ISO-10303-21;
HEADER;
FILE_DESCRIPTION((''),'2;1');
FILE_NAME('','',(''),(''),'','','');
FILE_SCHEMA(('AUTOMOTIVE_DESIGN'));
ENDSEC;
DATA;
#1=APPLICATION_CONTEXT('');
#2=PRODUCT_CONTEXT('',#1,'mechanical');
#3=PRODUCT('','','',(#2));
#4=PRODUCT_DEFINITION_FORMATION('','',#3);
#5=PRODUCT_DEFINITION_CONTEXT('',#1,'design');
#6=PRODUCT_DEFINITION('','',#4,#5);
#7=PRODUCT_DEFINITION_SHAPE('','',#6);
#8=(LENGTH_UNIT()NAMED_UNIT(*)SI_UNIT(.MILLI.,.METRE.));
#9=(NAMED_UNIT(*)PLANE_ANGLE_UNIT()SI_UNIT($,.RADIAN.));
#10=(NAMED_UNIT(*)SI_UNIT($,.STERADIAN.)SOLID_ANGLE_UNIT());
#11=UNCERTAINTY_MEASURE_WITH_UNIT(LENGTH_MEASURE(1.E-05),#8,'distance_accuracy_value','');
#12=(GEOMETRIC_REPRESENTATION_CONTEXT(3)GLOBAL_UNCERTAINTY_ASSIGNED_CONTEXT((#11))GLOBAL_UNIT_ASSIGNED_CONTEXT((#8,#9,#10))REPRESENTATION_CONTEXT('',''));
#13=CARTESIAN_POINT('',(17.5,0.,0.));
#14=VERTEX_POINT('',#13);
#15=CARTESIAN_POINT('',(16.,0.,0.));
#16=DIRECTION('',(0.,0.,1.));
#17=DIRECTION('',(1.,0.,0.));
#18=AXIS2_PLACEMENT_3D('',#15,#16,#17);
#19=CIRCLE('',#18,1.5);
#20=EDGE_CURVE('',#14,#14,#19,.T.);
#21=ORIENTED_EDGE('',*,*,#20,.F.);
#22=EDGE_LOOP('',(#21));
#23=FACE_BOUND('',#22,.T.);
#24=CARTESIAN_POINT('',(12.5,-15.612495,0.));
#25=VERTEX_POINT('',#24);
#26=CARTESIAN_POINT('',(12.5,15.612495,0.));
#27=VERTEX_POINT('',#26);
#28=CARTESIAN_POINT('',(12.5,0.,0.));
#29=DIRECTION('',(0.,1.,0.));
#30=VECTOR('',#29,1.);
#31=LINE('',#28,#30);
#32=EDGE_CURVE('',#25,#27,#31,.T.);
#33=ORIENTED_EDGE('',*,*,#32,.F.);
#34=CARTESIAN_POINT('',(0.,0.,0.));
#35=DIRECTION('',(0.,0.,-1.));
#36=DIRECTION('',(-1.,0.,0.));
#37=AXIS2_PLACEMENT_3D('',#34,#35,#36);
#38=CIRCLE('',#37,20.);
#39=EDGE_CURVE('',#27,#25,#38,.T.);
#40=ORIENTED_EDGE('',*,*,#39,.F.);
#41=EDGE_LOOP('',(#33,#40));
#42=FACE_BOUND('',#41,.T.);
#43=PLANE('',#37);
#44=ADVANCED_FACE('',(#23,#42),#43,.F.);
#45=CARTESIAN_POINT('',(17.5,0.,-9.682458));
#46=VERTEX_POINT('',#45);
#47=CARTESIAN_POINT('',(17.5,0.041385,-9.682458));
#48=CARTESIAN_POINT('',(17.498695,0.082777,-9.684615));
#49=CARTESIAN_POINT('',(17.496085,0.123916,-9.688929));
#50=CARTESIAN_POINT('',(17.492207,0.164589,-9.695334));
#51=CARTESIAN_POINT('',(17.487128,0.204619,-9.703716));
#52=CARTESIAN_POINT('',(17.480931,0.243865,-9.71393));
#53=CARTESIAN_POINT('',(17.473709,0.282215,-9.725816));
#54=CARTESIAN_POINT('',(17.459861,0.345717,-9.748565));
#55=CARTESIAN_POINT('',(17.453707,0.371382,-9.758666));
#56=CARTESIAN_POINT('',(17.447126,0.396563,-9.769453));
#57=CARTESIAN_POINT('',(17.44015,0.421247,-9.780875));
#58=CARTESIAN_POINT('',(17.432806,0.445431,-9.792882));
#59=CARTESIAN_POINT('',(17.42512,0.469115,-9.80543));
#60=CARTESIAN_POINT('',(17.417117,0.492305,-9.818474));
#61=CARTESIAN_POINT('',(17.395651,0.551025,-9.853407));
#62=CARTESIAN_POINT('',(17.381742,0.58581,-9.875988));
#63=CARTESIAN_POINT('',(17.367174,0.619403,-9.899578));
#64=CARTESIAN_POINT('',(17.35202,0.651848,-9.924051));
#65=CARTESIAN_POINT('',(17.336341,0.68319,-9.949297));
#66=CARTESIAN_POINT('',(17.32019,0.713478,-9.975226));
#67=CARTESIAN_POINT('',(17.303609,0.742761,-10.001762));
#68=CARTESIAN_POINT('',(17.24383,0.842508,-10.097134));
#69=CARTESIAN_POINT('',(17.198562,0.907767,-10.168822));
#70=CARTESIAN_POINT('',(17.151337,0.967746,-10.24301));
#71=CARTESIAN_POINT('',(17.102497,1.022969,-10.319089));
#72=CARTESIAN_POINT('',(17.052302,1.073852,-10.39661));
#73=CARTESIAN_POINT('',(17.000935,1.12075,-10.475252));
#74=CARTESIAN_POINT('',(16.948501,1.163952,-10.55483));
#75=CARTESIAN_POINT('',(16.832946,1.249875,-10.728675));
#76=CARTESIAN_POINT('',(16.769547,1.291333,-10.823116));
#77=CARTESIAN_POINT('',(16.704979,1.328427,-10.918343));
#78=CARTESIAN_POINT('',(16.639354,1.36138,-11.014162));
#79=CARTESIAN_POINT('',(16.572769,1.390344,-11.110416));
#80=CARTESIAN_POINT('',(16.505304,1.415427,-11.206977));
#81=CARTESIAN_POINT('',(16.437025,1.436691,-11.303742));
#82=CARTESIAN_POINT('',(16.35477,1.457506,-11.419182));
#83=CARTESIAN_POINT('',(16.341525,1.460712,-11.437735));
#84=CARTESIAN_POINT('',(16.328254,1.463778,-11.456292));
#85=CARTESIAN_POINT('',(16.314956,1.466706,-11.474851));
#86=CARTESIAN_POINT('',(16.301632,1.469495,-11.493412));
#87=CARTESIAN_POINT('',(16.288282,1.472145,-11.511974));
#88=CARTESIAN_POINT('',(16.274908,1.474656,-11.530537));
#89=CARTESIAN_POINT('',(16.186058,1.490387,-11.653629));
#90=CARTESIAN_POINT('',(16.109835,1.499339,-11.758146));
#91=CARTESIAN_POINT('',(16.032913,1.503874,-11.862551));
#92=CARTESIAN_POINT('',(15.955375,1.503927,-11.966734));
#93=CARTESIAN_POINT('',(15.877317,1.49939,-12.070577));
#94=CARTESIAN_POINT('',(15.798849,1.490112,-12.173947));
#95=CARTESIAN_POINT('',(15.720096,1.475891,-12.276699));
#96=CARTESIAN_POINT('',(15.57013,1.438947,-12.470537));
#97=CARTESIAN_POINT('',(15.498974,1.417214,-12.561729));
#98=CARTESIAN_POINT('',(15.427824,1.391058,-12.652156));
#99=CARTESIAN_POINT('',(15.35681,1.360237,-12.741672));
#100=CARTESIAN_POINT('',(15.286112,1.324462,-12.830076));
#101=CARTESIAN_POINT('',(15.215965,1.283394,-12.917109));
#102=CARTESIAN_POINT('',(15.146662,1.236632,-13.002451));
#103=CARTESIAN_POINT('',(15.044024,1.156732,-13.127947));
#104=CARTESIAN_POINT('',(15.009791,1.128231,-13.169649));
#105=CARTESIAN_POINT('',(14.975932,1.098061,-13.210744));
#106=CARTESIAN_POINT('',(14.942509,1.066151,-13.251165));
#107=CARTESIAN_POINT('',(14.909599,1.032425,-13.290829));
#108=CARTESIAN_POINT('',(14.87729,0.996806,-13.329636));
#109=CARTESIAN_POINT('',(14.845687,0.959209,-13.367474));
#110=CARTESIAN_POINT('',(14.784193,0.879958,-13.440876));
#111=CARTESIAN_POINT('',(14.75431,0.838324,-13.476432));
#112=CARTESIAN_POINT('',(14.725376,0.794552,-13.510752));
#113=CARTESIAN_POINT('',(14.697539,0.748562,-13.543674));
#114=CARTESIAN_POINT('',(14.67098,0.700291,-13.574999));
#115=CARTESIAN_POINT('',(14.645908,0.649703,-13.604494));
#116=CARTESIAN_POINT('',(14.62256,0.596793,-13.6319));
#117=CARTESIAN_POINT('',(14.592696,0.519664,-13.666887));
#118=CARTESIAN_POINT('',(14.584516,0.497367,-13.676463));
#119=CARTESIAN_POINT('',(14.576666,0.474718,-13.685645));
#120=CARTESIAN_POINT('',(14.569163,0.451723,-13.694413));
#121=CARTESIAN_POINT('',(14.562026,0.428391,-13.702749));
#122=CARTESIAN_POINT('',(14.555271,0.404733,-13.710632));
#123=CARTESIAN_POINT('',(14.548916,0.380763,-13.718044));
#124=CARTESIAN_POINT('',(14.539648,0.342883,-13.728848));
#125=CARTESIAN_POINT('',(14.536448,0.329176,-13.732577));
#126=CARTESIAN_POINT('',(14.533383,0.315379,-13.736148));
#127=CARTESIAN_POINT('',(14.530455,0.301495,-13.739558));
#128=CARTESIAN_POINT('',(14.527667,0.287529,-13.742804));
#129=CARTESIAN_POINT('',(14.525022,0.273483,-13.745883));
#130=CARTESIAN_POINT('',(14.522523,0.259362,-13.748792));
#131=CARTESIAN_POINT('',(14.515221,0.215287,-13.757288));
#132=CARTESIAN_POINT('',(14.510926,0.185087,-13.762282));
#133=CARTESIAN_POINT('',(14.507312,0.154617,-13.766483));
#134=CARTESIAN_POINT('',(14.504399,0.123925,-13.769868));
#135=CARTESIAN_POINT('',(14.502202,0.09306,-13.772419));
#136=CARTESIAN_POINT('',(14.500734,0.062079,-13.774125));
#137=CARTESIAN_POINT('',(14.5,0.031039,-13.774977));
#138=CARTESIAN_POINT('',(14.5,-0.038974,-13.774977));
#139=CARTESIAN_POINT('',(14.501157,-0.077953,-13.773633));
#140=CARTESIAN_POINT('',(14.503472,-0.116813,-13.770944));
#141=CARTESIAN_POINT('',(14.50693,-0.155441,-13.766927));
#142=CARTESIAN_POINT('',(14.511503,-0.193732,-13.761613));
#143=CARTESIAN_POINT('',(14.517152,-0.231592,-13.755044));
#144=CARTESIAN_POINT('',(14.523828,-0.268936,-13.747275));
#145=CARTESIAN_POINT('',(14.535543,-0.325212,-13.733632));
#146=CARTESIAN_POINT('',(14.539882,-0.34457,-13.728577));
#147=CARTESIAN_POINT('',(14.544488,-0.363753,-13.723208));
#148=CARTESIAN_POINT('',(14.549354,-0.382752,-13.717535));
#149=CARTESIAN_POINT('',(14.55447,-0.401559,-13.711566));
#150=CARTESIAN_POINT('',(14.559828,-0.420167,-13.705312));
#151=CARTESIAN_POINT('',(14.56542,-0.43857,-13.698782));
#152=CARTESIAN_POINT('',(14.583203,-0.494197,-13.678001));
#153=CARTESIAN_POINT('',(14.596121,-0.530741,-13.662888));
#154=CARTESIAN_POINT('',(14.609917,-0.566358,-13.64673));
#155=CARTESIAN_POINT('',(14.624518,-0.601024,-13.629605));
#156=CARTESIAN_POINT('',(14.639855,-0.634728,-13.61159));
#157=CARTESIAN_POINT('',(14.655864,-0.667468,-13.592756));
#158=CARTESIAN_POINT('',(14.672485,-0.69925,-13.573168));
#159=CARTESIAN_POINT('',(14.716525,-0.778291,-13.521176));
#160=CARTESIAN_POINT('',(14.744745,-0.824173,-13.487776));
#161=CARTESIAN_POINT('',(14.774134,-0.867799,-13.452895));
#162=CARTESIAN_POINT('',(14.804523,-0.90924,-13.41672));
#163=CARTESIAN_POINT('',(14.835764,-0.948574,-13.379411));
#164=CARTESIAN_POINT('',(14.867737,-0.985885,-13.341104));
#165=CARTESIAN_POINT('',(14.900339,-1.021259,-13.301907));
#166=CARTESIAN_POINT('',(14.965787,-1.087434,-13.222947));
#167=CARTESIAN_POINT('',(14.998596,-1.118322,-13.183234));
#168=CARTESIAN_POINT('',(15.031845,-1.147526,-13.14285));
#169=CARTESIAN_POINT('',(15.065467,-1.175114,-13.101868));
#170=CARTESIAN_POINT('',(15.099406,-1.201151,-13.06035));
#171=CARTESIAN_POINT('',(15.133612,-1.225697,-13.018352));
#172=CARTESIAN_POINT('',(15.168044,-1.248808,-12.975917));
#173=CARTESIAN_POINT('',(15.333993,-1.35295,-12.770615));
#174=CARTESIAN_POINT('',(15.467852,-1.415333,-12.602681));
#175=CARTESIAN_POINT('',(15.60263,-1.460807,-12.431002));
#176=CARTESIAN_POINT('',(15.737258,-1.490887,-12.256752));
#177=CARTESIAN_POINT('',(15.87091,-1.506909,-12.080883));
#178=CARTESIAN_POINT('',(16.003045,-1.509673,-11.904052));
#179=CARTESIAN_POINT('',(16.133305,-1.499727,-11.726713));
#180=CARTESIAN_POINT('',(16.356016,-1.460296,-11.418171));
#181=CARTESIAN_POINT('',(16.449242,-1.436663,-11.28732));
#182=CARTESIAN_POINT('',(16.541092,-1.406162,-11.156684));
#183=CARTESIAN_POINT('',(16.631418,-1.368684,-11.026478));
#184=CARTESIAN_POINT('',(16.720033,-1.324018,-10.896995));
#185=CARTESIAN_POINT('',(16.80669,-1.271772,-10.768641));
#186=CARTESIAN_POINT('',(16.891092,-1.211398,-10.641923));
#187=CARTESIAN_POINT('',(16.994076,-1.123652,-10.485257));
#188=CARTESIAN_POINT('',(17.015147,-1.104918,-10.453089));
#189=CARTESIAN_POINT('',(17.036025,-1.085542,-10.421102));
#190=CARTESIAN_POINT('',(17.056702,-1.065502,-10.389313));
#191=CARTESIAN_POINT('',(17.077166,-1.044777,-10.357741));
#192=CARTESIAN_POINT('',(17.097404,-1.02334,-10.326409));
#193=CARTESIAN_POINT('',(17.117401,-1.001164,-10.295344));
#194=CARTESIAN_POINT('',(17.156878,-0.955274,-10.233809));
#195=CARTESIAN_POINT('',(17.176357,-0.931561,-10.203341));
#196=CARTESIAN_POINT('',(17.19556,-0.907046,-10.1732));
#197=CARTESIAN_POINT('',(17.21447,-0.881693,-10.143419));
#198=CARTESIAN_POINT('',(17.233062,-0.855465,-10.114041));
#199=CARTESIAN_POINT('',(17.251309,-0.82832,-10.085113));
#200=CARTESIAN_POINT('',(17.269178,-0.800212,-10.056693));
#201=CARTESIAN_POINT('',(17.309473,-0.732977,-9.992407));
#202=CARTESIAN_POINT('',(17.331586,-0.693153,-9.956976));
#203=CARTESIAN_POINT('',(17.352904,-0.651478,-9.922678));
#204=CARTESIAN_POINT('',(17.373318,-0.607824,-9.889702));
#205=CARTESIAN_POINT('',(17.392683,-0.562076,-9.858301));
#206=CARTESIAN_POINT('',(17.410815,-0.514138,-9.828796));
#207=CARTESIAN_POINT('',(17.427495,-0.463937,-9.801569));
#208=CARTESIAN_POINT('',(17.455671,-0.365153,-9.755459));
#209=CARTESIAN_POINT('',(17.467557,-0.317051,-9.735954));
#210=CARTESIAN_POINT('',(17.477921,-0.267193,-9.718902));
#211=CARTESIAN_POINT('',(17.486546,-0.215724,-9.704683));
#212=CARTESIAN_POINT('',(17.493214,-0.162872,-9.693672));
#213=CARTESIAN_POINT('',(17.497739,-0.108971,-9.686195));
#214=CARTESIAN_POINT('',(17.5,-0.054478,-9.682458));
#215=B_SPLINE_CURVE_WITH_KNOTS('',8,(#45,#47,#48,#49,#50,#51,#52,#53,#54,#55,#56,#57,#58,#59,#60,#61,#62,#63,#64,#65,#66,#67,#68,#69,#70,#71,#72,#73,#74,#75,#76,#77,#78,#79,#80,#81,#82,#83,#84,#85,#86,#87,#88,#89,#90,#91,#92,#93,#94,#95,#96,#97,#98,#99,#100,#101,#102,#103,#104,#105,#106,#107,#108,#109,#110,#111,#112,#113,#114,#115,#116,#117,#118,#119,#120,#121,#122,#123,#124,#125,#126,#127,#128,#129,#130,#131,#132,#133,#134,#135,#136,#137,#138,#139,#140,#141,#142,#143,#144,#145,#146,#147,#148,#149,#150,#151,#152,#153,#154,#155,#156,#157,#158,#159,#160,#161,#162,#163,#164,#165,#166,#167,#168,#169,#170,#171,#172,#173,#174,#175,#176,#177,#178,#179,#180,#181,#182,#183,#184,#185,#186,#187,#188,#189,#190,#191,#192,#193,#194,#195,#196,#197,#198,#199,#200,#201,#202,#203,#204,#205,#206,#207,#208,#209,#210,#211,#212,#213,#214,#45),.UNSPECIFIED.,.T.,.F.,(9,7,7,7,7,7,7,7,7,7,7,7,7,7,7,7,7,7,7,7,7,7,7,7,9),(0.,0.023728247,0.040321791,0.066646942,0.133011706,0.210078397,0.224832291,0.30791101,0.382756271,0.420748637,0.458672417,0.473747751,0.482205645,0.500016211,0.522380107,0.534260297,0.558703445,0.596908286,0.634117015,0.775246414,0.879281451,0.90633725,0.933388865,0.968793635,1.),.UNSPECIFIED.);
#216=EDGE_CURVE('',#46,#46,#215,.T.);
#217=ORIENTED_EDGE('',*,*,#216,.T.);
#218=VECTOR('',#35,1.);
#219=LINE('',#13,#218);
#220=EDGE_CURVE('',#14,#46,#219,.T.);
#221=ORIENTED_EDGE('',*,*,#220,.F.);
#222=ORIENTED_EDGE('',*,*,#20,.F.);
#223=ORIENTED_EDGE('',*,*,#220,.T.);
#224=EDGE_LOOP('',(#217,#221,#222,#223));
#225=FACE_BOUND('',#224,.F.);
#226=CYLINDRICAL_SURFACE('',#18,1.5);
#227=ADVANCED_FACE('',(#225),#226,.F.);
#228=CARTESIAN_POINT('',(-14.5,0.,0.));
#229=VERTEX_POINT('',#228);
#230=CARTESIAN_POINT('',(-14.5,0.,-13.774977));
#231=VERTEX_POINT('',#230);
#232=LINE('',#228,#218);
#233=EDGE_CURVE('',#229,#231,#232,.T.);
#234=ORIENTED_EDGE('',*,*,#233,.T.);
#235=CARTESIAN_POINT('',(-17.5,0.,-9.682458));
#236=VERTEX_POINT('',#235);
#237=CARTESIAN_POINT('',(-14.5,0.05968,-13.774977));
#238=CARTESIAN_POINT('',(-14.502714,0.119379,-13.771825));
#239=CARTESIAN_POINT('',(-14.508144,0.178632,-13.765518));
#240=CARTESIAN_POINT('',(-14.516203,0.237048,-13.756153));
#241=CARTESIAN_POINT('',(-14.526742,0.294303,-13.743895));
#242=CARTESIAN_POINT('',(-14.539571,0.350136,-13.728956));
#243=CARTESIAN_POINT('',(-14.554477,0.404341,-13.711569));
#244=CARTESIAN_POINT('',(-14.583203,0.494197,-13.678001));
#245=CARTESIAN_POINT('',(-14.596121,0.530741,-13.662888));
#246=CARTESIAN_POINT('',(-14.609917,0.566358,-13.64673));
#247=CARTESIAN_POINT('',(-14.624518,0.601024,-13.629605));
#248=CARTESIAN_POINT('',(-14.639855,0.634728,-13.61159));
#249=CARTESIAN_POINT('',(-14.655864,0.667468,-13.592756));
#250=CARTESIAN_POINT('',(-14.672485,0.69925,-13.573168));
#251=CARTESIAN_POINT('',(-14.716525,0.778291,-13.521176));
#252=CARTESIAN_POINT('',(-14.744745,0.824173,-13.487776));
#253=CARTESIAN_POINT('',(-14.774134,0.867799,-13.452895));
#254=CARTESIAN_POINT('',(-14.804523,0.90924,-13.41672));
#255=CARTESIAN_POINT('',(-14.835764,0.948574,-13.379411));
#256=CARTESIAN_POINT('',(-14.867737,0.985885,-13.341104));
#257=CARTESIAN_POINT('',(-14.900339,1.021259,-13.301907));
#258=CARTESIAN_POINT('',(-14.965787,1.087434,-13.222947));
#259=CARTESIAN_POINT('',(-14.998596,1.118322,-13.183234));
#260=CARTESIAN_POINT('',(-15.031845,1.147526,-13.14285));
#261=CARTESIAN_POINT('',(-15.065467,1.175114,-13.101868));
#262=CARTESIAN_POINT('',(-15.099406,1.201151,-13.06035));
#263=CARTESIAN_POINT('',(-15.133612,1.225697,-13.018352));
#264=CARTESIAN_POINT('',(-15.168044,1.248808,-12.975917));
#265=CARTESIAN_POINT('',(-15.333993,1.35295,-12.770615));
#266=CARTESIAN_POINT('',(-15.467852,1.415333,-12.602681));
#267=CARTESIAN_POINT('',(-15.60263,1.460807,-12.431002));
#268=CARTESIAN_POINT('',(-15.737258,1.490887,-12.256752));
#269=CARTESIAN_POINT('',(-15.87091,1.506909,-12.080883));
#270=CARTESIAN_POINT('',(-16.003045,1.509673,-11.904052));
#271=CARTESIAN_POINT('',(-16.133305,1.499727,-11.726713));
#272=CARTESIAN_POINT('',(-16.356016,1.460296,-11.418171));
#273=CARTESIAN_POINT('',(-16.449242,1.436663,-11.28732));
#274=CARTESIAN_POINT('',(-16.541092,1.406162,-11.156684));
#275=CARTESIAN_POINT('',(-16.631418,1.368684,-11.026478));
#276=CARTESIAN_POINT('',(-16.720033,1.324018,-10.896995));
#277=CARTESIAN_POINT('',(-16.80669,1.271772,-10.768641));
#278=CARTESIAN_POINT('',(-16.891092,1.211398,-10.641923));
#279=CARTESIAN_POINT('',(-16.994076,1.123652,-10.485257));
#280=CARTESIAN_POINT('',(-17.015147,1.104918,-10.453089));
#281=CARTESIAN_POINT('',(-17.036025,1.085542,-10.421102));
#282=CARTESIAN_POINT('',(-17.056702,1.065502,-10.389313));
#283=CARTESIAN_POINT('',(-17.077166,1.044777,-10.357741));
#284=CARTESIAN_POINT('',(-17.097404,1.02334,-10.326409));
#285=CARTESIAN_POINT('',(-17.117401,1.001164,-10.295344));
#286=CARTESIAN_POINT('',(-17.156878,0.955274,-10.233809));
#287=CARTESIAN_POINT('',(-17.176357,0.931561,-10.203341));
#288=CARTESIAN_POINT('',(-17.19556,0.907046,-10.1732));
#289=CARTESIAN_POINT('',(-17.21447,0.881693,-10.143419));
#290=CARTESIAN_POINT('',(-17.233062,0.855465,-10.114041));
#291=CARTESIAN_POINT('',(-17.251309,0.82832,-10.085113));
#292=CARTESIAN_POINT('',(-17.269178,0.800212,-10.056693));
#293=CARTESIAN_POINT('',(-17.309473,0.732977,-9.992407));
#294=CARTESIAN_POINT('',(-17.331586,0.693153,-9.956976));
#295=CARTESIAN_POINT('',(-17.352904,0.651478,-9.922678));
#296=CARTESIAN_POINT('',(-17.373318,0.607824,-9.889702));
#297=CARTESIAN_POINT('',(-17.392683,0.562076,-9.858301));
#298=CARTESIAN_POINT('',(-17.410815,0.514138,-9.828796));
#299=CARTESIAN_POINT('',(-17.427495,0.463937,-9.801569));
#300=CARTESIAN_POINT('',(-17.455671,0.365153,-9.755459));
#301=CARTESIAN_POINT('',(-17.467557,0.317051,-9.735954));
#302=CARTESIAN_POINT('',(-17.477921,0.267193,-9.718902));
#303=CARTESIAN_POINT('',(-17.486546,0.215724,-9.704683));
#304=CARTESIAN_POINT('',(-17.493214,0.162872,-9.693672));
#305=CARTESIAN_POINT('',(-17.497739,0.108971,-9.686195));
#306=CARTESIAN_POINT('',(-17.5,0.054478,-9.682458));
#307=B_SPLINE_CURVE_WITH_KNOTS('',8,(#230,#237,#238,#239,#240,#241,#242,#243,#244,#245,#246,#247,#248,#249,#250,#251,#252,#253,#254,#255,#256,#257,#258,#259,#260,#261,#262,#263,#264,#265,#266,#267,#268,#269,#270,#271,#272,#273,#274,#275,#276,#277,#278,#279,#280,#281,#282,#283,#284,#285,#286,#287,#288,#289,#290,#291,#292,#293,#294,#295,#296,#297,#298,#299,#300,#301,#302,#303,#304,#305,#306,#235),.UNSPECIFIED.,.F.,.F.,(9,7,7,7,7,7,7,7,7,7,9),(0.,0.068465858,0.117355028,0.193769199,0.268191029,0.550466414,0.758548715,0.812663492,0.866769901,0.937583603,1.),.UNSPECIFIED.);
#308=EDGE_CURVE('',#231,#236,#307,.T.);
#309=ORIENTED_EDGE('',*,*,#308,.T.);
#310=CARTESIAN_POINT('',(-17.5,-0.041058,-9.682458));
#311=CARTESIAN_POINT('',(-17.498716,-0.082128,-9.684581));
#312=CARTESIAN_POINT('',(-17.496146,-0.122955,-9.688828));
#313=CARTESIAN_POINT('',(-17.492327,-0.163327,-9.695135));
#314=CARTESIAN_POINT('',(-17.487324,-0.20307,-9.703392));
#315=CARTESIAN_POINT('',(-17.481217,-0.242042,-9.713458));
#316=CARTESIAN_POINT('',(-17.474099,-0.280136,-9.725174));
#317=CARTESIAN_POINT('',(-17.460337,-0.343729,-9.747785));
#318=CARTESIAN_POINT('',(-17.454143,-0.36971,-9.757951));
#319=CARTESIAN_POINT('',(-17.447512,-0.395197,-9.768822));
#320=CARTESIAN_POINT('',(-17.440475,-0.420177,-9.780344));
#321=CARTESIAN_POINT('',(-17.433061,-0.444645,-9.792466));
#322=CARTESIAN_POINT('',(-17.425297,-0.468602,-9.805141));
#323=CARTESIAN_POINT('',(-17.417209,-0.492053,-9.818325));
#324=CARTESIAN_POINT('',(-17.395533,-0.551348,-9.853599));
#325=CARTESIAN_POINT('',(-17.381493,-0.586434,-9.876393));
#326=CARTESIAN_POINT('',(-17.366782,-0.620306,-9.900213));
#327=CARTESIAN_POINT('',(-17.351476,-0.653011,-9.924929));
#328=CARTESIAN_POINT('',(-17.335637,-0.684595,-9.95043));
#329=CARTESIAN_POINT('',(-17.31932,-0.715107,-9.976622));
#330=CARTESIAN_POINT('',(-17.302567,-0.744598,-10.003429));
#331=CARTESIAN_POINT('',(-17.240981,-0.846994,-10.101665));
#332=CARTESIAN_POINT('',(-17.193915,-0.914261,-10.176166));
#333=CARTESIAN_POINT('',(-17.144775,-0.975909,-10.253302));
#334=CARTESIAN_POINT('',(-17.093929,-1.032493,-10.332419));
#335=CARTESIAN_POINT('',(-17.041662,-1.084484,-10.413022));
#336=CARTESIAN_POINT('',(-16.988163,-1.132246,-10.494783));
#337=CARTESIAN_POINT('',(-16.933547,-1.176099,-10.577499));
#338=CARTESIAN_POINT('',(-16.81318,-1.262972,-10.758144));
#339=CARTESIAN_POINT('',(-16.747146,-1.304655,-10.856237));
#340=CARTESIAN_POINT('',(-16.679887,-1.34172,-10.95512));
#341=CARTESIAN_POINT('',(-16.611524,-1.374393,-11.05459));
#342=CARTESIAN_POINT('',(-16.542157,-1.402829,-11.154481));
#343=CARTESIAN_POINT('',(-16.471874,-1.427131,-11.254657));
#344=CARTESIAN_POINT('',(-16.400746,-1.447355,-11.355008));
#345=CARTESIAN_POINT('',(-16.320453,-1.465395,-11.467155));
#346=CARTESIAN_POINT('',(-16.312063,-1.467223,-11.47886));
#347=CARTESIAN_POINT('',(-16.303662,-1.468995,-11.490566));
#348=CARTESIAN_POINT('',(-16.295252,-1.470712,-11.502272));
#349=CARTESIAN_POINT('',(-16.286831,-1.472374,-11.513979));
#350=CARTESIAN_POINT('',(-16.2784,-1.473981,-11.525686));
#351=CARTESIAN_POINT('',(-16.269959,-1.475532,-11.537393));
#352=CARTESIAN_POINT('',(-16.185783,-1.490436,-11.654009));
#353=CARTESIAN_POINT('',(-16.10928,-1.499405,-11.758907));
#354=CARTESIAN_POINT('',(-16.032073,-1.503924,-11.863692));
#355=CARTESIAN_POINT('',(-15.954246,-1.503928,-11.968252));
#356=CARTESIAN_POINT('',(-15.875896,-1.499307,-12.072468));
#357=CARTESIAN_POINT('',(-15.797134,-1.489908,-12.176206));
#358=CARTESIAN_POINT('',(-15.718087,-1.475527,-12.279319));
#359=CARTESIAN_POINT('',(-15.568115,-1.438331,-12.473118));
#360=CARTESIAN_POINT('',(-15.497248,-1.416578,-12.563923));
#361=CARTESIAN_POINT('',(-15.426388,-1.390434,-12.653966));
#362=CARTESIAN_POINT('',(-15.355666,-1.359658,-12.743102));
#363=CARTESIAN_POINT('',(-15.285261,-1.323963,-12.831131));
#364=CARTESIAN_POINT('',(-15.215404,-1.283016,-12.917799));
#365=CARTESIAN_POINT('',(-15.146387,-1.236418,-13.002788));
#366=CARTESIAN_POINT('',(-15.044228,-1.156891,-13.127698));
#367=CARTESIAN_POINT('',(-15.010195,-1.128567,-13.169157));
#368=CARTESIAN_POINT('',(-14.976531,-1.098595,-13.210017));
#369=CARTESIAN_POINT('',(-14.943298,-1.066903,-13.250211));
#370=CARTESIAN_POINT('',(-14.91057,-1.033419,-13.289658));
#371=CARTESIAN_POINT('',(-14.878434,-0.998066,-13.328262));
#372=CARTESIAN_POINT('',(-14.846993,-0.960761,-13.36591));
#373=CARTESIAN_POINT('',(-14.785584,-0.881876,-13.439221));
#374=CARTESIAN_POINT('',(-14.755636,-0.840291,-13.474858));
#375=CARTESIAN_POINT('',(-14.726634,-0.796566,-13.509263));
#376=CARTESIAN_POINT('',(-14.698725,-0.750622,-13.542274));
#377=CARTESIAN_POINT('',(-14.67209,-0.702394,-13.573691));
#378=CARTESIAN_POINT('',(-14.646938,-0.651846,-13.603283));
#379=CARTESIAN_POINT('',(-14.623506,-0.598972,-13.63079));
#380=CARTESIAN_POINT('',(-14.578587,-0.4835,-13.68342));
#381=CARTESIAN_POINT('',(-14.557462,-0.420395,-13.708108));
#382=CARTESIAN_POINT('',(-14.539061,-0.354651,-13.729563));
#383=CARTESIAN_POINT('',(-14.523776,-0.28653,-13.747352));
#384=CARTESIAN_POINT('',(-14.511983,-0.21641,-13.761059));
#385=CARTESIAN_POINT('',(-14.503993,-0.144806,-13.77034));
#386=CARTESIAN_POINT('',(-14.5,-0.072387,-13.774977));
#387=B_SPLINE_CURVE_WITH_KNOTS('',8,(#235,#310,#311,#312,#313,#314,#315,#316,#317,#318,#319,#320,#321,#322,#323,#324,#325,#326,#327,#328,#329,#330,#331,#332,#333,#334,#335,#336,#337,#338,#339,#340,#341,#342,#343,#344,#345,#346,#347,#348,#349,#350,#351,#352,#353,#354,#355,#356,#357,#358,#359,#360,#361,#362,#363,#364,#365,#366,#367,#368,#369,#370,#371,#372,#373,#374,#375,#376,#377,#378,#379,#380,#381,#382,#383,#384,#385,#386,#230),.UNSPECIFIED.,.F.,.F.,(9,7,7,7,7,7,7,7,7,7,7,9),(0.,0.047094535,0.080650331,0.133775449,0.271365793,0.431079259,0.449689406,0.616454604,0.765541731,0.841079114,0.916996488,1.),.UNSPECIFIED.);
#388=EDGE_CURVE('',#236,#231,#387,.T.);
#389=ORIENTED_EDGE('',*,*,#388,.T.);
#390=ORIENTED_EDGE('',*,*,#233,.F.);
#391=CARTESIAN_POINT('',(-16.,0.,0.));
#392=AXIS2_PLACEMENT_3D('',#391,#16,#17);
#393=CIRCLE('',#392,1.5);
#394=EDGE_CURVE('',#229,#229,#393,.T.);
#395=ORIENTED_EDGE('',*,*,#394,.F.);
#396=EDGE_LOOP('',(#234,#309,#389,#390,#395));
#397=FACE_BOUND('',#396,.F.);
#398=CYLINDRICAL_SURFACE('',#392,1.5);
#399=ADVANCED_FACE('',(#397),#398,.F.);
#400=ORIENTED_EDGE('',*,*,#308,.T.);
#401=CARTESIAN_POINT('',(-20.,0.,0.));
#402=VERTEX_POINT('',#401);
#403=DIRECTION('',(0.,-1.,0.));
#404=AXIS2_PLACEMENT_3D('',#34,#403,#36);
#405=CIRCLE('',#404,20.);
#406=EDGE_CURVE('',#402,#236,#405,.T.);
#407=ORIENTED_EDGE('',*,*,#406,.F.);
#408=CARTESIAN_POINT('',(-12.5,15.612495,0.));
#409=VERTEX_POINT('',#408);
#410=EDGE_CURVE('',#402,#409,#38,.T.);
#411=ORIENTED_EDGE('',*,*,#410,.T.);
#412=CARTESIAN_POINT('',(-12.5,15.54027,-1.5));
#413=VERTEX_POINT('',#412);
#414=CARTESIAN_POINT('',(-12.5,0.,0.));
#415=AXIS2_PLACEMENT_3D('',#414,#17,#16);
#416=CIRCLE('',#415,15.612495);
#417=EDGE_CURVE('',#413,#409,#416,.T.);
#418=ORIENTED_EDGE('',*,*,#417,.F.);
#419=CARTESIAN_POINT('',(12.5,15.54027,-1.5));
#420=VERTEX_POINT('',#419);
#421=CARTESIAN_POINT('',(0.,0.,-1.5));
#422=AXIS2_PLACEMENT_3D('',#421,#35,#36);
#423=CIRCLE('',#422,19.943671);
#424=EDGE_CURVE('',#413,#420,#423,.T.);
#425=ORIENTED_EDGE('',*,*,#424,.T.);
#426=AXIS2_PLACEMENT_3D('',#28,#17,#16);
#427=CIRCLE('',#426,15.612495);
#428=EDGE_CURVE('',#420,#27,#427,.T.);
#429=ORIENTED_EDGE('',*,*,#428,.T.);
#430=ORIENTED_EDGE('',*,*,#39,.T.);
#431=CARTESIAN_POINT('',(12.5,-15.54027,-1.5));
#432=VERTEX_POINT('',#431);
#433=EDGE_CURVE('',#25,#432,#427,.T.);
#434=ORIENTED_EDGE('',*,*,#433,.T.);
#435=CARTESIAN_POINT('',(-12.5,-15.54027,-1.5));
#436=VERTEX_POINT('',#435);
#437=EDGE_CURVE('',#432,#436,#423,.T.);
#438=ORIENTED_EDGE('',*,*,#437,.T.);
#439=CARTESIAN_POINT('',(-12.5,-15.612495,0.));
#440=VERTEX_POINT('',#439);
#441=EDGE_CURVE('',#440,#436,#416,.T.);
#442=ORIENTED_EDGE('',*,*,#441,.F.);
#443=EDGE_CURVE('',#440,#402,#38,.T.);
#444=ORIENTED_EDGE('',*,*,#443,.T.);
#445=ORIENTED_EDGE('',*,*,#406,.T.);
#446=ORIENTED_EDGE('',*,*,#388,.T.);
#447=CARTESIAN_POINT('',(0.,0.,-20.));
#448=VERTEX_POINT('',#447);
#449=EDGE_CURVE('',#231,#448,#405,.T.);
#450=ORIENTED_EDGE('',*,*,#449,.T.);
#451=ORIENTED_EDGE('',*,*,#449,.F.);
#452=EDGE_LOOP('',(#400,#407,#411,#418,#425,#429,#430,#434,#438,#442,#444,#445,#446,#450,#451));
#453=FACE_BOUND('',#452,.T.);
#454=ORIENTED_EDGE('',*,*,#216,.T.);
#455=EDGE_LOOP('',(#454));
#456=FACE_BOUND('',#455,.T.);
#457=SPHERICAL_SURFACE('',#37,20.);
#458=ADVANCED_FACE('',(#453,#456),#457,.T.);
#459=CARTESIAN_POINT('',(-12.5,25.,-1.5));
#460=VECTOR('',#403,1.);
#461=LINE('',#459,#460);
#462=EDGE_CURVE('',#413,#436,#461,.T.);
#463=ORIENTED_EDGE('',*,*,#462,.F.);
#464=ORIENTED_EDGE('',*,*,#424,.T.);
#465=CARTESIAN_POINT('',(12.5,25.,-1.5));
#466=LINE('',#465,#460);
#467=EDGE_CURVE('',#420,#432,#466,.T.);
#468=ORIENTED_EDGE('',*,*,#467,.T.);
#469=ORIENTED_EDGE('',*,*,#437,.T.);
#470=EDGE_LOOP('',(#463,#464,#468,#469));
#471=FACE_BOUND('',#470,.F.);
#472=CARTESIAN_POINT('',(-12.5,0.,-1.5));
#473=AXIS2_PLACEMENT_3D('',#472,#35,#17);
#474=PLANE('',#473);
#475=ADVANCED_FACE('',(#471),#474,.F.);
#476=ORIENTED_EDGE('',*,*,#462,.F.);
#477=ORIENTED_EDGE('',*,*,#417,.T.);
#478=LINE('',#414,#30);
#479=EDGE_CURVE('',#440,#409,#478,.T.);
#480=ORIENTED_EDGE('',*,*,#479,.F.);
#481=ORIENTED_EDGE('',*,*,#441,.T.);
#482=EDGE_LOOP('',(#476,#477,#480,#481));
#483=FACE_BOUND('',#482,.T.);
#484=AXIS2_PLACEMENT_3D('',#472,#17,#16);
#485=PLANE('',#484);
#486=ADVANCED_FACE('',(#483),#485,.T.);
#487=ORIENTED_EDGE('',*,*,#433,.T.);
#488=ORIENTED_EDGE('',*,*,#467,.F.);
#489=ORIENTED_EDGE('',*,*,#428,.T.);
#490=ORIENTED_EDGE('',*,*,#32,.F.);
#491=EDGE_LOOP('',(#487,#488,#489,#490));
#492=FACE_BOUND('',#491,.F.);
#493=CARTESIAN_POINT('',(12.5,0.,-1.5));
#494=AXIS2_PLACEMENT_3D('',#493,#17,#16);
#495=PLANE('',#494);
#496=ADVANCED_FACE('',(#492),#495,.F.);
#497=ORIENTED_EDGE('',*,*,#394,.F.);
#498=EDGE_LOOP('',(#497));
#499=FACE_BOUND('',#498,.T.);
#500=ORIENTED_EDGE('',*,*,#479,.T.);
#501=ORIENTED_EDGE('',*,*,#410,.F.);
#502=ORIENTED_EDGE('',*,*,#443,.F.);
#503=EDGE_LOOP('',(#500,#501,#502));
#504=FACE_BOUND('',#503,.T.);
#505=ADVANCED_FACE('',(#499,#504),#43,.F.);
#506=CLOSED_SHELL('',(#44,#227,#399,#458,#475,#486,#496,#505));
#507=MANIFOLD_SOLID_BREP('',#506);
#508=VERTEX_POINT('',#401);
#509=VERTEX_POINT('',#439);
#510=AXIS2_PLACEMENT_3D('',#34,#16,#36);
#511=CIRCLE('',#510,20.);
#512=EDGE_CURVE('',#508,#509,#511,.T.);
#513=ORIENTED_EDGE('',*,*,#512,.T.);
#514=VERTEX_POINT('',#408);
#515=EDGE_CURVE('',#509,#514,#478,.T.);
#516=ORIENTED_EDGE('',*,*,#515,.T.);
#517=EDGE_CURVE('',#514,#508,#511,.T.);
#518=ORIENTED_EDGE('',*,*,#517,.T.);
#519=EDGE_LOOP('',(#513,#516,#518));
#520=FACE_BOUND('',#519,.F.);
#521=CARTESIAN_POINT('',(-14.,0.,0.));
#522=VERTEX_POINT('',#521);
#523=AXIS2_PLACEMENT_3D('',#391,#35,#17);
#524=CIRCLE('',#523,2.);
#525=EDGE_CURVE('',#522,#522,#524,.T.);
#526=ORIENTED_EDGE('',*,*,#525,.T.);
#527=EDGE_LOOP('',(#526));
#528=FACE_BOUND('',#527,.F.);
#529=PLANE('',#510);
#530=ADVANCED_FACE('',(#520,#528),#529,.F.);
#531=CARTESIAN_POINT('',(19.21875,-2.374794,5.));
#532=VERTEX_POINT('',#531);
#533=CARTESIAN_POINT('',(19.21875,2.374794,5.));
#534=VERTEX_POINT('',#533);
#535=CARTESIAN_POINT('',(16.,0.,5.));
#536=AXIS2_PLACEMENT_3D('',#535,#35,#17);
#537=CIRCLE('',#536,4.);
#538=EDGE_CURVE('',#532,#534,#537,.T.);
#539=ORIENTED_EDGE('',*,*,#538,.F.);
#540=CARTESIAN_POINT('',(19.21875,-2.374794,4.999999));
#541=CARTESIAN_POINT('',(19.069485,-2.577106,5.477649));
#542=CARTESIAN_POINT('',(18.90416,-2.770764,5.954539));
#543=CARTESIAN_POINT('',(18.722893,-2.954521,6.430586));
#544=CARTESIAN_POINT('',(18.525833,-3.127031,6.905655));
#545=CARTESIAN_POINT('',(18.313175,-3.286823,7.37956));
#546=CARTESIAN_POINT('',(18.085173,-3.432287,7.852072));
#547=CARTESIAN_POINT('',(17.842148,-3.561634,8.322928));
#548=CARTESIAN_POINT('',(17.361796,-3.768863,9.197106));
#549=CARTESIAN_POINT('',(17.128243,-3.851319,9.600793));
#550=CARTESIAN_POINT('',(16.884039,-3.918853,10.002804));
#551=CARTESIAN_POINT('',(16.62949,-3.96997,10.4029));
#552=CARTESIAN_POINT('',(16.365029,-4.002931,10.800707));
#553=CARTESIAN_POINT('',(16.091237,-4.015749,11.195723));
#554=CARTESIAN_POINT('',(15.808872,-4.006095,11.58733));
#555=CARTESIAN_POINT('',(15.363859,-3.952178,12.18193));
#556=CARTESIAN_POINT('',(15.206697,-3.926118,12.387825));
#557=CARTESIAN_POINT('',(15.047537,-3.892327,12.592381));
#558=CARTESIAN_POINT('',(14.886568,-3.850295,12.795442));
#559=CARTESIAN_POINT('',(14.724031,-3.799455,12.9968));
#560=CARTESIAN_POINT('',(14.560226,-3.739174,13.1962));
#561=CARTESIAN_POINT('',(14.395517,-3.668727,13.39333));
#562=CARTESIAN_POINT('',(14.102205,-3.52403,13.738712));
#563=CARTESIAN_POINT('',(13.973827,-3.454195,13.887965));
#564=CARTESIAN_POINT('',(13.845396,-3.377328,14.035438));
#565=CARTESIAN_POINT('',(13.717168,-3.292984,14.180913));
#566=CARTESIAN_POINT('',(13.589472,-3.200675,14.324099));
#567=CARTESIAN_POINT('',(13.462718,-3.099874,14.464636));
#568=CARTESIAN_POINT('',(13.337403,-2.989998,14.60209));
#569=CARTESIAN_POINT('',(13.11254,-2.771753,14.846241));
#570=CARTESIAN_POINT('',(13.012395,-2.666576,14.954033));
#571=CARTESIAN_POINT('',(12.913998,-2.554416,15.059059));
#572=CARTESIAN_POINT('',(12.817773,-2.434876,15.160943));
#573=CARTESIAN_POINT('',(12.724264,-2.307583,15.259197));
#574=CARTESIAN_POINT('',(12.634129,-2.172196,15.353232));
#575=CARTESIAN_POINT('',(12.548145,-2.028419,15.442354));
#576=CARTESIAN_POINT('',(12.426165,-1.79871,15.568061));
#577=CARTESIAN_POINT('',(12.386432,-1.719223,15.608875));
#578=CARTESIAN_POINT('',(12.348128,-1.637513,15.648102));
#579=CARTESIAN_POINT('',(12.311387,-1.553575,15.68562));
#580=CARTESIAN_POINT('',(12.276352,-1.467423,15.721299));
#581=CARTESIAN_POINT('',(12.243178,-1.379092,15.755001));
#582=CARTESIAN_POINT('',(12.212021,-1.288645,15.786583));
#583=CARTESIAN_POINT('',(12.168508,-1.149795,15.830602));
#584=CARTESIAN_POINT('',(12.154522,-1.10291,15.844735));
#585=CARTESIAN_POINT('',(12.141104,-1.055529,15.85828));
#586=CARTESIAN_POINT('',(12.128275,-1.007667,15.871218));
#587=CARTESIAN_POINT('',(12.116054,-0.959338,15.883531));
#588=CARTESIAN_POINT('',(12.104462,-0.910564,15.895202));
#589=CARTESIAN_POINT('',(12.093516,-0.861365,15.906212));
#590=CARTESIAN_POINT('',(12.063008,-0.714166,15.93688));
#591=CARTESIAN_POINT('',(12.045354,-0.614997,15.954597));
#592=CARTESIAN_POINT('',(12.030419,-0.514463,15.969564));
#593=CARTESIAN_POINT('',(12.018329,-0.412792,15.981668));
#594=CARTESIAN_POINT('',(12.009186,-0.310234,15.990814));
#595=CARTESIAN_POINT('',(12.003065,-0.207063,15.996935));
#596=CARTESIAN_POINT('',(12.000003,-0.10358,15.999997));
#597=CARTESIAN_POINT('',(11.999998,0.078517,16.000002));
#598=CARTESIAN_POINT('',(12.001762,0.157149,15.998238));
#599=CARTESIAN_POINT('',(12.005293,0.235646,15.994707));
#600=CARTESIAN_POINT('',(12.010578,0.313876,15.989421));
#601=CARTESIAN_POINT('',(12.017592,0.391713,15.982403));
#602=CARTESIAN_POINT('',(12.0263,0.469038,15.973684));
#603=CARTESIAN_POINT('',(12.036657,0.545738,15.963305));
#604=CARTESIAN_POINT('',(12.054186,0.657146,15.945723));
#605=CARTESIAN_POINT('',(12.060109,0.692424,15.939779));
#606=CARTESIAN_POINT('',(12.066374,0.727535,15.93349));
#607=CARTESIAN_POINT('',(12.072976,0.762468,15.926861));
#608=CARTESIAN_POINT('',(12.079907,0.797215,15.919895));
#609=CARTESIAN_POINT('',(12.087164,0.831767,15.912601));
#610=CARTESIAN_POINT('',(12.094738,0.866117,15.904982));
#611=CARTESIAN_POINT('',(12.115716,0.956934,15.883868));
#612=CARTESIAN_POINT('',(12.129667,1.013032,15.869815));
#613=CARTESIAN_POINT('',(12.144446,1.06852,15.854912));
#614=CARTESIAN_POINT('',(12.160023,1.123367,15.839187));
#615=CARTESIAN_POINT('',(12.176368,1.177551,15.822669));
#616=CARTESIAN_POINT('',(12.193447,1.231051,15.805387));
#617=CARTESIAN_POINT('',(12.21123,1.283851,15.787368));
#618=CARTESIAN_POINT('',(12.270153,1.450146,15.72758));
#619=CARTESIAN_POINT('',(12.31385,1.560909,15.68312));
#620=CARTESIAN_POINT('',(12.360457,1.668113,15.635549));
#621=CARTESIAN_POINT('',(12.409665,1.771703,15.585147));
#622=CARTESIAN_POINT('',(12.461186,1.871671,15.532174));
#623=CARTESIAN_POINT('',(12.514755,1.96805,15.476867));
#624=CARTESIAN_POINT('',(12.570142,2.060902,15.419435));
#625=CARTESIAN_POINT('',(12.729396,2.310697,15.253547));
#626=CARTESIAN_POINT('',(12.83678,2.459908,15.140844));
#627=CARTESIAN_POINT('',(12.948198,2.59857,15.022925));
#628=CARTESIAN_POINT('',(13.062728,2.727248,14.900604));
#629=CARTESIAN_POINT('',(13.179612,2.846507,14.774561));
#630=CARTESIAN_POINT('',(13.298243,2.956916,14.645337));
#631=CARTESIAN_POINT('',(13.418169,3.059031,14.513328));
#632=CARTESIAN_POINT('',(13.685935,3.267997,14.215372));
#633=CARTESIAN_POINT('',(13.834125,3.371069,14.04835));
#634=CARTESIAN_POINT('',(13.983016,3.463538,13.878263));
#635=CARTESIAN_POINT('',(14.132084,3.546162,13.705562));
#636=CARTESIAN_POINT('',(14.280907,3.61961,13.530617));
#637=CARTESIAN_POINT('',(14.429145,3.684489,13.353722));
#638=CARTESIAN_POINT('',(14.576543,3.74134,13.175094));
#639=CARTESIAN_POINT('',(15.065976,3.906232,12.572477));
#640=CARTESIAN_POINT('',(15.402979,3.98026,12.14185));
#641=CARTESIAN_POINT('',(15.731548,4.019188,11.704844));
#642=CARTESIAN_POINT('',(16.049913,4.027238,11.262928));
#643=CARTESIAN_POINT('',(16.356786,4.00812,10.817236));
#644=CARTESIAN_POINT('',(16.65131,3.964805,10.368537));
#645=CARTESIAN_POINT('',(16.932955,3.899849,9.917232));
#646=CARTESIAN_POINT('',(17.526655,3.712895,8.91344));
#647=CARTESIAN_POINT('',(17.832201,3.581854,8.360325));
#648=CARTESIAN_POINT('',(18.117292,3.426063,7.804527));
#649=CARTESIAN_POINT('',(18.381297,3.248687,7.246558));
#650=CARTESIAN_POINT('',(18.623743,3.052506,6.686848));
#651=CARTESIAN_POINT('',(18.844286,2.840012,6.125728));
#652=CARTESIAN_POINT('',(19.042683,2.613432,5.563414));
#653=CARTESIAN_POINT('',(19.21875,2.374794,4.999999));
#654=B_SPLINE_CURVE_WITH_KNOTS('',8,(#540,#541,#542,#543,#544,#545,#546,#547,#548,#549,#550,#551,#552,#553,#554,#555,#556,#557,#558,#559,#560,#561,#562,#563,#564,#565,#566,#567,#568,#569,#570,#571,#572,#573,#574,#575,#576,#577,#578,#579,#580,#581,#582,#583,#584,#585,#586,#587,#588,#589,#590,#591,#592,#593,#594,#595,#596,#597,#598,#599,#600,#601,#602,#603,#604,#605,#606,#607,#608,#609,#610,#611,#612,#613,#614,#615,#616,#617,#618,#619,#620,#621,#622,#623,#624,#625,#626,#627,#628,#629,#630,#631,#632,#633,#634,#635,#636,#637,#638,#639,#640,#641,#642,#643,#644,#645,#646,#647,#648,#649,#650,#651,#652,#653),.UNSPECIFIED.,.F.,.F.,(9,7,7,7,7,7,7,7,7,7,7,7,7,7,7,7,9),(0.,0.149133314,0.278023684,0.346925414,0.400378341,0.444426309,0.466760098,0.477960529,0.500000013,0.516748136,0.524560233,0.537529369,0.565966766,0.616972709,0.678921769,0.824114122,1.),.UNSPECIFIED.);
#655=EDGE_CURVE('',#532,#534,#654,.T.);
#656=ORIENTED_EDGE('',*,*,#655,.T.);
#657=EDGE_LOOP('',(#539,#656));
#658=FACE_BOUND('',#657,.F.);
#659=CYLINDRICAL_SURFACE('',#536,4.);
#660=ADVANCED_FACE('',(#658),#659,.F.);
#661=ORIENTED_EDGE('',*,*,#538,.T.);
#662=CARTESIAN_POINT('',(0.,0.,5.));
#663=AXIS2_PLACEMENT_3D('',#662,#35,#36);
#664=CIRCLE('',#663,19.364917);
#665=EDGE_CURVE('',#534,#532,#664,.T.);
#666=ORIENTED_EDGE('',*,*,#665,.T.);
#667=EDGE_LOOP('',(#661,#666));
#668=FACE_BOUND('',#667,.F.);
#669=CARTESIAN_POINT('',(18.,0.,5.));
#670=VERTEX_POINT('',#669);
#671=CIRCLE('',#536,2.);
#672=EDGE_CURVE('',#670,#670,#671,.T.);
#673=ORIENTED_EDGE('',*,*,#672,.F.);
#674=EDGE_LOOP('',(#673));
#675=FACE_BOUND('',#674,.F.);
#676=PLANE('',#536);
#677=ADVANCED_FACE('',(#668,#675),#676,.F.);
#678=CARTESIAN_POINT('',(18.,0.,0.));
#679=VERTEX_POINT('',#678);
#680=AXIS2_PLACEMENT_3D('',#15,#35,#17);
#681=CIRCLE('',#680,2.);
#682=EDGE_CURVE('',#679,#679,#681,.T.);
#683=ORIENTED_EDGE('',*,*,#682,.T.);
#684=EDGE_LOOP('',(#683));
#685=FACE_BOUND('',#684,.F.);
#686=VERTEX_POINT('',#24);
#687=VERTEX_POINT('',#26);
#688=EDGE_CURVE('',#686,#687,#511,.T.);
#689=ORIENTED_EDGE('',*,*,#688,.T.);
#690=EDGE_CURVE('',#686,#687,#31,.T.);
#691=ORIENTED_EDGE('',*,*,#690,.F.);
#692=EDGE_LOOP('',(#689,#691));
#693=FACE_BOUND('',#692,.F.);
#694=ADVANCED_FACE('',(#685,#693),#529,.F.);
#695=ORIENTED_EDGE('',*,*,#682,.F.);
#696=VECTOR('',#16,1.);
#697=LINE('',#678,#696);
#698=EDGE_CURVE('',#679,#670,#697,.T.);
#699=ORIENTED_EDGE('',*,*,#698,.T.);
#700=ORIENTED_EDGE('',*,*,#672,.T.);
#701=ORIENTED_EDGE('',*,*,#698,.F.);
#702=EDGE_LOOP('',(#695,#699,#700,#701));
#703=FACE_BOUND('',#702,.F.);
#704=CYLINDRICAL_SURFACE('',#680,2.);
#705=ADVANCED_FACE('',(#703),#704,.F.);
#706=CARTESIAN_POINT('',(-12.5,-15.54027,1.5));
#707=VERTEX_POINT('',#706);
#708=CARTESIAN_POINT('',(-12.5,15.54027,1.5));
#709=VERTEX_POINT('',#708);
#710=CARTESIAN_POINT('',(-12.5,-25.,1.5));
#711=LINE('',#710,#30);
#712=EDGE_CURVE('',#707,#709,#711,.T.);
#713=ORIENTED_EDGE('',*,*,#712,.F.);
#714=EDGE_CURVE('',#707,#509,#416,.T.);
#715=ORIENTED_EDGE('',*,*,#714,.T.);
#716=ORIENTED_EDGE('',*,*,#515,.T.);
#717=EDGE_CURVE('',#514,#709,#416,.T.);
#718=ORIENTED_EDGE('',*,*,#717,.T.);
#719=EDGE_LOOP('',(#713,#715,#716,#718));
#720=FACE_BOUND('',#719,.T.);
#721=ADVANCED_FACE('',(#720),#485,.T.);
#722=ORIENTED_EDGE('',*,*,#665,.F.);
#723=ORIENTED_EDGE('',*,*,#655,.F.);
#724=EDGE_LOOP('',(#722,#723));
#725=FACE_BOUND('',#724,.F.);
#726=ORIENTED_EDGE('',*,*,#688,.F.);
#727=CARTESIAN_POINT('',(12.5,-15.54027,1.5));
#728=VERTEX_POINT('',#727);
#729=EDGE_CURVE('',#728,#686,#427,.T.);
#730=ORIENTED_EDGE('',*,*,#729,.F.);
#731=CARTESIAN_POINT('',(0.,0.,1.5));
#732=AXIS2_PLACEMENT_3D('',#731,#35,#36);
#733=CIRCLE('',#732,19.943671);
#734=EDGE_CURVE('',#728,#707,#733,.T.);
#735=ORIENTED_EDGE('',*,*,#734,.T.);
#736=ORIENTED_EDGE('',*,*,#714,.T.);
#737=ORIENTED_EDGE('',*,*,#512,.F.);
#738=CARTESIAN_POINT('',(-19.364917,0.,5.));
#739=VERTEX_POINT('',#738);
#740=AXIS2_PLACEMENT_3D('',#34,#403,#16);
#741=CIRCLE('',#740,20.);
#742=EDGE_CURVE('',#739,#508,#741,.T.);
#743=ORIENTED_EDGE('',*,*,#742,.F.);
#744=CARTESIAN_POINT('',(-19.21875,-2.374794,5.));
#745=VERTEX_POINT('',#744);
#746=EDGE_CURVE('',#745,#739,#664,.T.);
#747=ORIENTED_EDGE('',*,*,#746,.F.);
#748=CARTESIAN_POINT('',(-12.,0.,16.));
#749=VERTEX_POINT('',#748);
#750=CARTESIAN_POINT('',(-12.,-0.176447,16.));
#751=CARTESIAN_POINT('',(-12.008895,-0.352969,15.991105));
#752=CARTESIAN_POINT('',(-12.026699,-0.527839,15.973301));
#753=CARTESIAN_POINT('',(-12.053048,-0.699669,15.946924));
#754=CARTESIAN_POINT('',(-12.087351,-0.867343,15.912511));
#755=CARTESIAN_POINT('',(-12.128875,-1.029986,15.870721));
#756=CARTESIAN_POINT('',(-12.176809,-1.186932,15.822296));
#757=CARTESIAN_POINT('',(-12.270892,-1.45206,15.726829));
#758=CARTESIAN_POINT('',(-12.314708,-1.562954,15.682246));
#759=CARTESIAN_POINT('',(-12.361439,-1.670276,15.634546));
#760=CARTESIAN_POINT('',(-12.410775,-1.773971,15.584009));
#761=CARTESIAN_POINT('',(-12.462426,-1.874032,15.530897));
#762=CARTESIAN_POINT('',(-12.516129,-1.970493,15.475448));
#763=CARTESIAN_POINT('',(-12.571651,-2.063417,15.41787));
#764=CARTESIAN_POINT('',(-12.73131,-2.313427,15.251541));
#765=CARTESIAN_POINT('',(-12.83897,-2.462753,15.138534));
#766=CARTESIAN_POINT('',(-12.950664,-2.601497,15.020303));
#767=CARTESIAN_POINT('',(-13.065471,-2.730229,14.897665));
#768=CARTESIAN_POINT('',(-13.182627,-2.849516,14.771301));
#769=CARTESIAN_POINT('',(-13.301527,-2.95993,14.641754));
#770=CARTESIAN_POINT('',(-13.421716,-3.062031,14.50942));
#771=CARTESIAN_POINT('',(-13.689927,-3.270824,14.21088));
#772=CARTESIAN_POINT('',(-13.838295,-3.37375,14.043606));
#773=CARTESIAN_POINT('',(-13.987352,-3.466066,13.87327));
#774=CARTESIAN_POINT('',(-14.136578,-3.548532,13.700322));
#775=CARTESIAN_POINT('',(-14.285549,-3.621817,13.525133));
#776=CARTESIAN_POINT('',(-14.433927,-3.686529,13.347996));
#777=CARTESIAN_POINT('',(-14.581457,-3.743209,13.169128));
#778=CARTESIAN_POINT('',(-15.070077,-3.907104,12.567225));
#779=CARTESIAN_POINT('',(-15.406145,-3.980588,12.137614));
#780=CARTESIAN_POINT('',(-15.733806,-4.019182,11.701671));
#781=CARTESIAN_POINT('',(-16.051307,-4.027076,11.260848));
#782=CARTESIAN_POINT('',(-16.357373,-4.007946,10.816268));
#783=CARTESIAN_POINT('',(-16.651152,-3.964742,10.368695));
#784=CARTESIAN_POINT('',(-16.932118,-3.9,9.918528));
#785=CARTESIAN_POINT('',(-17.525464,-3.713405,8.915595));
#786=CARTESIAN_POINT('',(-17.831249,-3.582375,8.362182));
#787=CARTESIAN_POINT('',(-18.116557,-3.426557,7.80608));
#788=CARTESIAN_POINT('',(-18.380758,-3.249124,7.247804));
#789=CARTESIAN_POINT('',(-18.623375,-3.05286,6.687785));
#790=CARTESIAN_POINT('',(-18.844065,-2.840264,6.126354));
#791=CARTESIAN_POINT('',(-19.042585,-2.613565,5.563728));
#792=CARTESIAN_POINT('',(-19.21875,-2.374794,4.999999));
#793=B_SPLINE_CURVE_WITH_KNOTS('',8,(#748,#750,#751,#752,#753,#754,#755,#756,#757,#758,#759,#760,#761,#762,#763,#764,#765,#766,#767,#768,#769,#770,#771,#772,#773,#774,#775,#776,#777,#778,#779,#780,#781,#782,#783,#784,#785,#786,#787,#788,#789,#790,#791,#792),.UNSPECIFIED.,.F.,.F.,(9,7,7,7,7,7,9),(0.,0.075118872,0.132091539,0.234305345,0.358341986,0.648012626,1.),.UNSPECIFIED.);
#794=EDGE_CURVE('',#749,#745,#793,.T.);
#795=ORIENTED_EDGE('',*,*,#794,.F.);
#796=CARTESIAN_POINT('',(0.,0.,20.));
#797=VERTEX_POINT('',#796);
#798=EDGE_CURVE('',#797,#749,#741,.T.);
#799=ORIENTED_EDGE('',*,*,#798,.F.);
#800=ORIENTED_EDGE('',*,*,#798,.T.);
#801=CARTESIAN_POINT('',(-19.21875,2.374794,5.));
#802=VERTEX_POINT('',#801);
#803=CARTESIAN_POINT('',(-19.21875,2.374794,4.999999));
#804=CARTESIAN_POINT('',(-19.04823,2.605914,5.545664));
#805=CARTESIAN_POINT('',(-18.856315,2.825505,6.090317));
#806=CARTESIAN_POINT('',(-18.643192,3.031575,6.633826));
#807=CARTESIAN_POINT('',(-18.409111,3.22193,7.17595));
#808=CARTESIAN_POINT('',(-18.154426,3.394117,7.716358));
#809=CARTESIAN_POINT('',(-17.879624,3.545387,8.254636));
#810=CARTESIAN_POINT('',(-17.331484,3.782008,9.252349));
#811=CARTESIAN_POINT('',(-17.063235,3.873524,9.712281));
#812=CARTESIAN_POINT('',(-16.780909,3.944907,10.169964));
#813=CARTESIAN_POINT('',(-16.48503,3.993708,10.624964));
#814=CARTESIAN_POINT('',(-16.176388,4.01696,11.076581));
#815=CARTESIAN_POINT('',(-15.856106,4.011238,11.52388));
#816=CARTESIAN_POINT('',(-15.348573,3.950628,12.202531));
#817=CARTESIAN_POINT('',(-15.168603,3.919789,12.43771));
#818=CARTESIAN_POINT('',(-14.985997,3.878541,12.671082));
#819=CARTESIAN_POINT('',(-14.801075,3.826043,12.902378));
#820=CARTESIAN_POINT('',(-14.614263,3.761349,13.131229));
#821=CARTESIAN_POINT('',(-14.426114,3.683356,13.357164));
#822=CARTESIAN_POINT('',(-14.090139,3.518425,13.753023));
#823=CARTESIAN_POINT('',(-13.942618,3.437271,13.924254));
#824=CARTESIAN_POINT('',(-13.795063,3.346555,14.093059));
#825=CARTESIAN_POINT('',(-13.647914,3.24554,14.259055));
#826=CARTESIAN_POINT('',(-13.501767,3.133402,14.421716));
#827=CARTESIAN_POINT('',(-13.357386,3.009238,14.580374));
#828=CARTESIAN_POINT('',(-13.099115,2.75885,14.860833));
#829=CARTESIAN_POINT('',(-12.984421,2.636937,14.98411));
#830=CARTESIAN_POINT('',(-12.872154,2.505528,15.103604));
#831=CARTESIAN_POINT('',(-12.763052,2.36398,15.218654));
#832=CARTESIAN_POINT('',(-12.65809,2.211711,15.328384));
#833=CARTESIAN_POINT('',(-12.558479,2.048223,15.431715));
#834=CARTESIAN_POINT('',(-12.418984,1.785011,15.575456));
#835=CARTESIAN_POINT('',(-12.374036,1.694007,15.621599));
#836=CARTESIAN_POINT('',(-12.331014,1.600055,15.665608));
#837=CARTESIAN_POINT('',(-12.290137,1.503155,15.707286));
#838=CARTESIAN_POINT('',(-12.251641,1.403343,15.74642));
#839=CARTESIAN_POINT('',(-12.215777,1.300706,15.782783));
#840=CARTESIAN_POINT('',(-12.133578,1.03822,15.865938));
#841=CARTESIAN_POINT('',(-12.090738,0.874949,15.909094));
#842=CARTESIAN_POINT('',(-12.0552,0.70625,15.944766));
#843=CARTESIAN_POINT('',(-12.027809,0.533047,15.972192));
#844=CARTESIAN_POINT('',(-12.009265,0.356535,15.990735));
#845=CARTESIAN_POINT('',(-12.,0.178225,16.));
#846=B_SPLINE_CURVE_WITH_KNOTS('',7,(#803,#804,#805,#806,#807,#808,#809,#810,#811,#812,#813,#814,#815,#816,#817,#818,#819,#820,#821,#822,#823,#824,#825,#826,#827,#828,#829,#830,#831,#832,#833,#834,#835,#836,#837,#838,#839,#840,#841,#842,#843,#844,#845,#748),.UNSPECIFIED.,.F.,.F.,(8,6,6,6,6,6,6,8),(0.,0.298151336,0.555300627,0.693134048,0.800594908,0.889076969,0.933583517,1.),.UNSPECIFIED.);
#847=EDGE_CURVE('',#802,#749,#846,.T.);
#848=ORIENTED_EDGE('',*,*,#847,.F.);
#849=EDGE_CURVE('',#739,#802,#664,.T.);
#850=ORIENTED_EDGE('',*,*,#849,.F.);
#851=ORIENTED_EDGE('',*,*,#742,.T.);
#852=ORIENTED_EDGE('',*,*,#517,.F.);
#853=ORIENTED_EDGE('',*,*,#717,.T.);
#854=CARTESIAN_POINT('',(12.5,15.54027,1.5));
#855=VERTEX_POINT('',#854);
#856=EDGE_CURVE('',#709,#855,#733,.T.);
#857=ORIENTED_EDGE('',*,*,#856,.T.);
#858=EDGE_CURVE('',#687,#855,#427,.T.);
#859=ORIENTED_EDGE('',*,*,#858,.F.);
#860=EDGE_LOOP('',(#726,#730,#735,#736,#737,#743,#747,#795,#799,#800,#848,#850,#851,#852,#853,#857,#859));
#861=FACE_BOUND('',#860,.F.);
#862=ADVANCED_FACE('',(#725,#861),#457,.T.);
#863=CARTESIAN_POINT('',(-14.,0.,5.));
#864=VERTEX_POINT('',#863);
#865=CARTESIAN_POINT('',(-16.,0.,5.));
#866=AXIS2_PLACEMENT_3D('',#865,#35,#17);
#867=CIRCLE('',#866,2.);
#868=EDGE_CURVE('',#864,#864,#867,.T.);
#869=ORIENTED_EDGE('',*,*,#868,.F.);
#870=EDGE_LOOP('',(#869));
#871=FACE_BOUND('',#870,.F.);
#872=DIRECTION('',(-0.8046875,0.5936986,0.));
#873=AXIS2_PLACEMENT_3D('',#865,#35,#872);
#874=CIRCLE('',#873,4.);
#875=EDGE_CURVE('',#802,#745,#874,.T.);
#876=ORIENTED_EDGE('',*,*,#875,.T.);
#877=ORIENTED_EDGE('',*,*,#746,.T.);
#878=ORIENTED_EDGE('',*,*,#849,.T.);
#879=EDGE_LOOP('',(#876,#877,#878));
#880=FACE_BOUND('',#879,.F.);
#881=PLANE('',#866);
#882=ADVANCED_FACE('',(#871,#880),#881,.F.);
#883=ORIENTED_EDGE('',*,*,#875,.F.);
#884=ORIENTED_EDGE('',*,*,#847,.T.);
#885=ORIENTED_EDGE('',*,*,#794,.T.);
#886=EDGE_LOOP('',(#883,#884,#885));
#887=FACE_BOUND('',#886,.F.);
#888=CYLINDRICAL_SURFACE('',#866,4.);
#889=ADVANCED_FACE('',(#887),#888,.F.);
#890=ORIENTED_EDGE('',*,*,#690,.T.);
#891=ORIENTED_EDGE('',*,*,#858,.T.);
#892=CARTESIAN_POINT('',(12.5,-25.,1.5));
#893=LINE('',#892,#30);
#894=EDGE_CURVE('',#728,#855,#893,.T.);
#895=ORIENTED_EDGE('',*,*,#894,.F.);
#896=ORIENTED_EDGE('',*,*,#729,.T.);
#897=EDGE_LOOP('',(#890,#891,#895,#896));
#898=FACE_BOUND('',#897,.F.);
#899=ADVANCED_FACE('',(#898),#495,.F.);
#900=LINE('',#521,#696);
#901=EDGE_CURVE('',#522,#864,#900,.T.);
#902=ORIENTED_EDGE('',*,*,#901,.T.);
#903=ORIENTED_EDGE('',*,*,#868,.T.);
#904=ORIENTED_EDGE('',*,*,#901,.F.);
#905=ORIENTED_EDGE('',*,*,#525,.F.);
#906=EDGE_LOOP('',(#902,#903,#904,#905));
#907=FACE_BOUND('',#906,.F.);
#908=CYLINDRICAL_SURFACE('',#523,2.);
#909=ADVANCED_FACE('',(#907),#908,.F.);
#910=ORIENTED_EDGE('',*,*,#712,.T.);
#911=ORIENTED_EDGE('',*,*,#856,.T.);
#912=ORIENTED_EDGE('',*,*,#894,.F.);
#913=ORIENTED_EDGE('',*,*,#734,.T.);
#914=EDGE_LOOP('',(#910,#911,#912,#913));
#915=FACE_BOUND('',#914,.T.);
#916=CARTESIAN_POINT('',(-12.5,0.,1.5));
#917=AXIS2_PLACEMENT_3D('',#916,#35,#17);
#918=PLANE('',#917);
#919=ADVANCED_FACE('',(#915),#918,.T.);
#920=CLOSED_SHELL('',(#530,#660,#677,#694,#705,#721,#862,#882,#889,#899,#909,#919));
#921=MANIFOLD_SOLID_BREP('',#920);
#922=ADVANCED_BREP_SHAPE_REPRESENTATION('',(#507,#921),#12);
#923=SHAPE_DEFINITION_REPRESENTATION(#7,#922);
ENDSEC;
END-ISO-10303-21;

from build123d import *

# Parameters (mm, degrees)
F2_W      = 25
F2_H      = 3
F3_DEPTH  = 25
F4_R      = 2
F5_DEPTH  = 20.001
F7_R      = 4
F8_DEPTH  = 15.001
F11_W     = 25
F11_H     = 3
F12_DEPTH = 25
F13_R     = 1.5
F14_DEPTH = 20.001


with BuildPart() as f1:
    # F0 (on Front) → F1 (revolve)
    with BuildSketch(Plane.XZ):
        with BuildLine():
            Line((0, 0), (0, 20))
            ThreePointArc((0, 20), (-14.1421356237, 14.1421356237), (-20, 0))
            Line((-20, 0), (0, 0))
        make_face()
    revolve(axis=Axis((0, 0, 10), (0, 0, 1)))

    # F2 (on Front) → F3 (cut, symmetric)
    with BuildSketch(Plane.XZ):
        Rectangle(F2_W, F2_H)
    extrude(amount=F3_DEPTH, both=True, mode=Mode.SUBTRACT)

    # F4 (on face) → F5 (cut, through all)
    with BuildSketch(Plane(origin=(0, 0, 0), x_dir=(1, 0, 0), z_dir=(0, 0, -1))):
        with Locations((-16, 0)):
            Circle(F4_R)
        with Locations((16, 0)):
            Circle(F4_R)
    extrude(amount=-F5_DEPTH, mode=Mode.SUBTRACT)

    # F7 (on offset) → F8 (cut, through all)
    with BuildSketch(Plane(origin=(0, 0, 5), x_dir=(1, 0, 0), z_dir=(0, 0, -1))):
        with Locations((-16, 0)):
            Circle(F7_R)
        with Locations((16, 0)):
            Circle(F7_R)
    extrude(amount=-F8_DEPTH, mode=Mode.SUBTRACT)


with BuildPart() as f10:
    # F9 (on Front) → F10 (revolve)
    with BuildSketch(Plane.XZ):
        with BuildLine():
            Line((0, 0), (-20, 0))
            ThreePointArc((-20, 0), (-14.1421356237, -14.1421356237), (0, -20))
            Line((0, -20), (0, 0))
        make_face()
    revolve(axis=Axis((0, 0, -10), (0, 0, -1)))

    # F11 (on Front) → F12 (cut, symmetric)
    with BuildSketch(Plane.XZ):
        Rectangle(F11_W, F11_H)
    extrude(amount=F12_DEPTH, both=True, mode=Mode.SUBTRACT)

    # F13 (on Top) → F14 (cut, through all)
    with BuildSketch(Plane.XY):
        with Locations((-16, 0)):
            Circle(F13_R)
        with Locations((16, 0)):
            Circle(F13_R)
    extrude(amount=-F14_DEPTH, mode=Mode.SUBTRACT)


solid = Compound([f1.part, f10.part])
